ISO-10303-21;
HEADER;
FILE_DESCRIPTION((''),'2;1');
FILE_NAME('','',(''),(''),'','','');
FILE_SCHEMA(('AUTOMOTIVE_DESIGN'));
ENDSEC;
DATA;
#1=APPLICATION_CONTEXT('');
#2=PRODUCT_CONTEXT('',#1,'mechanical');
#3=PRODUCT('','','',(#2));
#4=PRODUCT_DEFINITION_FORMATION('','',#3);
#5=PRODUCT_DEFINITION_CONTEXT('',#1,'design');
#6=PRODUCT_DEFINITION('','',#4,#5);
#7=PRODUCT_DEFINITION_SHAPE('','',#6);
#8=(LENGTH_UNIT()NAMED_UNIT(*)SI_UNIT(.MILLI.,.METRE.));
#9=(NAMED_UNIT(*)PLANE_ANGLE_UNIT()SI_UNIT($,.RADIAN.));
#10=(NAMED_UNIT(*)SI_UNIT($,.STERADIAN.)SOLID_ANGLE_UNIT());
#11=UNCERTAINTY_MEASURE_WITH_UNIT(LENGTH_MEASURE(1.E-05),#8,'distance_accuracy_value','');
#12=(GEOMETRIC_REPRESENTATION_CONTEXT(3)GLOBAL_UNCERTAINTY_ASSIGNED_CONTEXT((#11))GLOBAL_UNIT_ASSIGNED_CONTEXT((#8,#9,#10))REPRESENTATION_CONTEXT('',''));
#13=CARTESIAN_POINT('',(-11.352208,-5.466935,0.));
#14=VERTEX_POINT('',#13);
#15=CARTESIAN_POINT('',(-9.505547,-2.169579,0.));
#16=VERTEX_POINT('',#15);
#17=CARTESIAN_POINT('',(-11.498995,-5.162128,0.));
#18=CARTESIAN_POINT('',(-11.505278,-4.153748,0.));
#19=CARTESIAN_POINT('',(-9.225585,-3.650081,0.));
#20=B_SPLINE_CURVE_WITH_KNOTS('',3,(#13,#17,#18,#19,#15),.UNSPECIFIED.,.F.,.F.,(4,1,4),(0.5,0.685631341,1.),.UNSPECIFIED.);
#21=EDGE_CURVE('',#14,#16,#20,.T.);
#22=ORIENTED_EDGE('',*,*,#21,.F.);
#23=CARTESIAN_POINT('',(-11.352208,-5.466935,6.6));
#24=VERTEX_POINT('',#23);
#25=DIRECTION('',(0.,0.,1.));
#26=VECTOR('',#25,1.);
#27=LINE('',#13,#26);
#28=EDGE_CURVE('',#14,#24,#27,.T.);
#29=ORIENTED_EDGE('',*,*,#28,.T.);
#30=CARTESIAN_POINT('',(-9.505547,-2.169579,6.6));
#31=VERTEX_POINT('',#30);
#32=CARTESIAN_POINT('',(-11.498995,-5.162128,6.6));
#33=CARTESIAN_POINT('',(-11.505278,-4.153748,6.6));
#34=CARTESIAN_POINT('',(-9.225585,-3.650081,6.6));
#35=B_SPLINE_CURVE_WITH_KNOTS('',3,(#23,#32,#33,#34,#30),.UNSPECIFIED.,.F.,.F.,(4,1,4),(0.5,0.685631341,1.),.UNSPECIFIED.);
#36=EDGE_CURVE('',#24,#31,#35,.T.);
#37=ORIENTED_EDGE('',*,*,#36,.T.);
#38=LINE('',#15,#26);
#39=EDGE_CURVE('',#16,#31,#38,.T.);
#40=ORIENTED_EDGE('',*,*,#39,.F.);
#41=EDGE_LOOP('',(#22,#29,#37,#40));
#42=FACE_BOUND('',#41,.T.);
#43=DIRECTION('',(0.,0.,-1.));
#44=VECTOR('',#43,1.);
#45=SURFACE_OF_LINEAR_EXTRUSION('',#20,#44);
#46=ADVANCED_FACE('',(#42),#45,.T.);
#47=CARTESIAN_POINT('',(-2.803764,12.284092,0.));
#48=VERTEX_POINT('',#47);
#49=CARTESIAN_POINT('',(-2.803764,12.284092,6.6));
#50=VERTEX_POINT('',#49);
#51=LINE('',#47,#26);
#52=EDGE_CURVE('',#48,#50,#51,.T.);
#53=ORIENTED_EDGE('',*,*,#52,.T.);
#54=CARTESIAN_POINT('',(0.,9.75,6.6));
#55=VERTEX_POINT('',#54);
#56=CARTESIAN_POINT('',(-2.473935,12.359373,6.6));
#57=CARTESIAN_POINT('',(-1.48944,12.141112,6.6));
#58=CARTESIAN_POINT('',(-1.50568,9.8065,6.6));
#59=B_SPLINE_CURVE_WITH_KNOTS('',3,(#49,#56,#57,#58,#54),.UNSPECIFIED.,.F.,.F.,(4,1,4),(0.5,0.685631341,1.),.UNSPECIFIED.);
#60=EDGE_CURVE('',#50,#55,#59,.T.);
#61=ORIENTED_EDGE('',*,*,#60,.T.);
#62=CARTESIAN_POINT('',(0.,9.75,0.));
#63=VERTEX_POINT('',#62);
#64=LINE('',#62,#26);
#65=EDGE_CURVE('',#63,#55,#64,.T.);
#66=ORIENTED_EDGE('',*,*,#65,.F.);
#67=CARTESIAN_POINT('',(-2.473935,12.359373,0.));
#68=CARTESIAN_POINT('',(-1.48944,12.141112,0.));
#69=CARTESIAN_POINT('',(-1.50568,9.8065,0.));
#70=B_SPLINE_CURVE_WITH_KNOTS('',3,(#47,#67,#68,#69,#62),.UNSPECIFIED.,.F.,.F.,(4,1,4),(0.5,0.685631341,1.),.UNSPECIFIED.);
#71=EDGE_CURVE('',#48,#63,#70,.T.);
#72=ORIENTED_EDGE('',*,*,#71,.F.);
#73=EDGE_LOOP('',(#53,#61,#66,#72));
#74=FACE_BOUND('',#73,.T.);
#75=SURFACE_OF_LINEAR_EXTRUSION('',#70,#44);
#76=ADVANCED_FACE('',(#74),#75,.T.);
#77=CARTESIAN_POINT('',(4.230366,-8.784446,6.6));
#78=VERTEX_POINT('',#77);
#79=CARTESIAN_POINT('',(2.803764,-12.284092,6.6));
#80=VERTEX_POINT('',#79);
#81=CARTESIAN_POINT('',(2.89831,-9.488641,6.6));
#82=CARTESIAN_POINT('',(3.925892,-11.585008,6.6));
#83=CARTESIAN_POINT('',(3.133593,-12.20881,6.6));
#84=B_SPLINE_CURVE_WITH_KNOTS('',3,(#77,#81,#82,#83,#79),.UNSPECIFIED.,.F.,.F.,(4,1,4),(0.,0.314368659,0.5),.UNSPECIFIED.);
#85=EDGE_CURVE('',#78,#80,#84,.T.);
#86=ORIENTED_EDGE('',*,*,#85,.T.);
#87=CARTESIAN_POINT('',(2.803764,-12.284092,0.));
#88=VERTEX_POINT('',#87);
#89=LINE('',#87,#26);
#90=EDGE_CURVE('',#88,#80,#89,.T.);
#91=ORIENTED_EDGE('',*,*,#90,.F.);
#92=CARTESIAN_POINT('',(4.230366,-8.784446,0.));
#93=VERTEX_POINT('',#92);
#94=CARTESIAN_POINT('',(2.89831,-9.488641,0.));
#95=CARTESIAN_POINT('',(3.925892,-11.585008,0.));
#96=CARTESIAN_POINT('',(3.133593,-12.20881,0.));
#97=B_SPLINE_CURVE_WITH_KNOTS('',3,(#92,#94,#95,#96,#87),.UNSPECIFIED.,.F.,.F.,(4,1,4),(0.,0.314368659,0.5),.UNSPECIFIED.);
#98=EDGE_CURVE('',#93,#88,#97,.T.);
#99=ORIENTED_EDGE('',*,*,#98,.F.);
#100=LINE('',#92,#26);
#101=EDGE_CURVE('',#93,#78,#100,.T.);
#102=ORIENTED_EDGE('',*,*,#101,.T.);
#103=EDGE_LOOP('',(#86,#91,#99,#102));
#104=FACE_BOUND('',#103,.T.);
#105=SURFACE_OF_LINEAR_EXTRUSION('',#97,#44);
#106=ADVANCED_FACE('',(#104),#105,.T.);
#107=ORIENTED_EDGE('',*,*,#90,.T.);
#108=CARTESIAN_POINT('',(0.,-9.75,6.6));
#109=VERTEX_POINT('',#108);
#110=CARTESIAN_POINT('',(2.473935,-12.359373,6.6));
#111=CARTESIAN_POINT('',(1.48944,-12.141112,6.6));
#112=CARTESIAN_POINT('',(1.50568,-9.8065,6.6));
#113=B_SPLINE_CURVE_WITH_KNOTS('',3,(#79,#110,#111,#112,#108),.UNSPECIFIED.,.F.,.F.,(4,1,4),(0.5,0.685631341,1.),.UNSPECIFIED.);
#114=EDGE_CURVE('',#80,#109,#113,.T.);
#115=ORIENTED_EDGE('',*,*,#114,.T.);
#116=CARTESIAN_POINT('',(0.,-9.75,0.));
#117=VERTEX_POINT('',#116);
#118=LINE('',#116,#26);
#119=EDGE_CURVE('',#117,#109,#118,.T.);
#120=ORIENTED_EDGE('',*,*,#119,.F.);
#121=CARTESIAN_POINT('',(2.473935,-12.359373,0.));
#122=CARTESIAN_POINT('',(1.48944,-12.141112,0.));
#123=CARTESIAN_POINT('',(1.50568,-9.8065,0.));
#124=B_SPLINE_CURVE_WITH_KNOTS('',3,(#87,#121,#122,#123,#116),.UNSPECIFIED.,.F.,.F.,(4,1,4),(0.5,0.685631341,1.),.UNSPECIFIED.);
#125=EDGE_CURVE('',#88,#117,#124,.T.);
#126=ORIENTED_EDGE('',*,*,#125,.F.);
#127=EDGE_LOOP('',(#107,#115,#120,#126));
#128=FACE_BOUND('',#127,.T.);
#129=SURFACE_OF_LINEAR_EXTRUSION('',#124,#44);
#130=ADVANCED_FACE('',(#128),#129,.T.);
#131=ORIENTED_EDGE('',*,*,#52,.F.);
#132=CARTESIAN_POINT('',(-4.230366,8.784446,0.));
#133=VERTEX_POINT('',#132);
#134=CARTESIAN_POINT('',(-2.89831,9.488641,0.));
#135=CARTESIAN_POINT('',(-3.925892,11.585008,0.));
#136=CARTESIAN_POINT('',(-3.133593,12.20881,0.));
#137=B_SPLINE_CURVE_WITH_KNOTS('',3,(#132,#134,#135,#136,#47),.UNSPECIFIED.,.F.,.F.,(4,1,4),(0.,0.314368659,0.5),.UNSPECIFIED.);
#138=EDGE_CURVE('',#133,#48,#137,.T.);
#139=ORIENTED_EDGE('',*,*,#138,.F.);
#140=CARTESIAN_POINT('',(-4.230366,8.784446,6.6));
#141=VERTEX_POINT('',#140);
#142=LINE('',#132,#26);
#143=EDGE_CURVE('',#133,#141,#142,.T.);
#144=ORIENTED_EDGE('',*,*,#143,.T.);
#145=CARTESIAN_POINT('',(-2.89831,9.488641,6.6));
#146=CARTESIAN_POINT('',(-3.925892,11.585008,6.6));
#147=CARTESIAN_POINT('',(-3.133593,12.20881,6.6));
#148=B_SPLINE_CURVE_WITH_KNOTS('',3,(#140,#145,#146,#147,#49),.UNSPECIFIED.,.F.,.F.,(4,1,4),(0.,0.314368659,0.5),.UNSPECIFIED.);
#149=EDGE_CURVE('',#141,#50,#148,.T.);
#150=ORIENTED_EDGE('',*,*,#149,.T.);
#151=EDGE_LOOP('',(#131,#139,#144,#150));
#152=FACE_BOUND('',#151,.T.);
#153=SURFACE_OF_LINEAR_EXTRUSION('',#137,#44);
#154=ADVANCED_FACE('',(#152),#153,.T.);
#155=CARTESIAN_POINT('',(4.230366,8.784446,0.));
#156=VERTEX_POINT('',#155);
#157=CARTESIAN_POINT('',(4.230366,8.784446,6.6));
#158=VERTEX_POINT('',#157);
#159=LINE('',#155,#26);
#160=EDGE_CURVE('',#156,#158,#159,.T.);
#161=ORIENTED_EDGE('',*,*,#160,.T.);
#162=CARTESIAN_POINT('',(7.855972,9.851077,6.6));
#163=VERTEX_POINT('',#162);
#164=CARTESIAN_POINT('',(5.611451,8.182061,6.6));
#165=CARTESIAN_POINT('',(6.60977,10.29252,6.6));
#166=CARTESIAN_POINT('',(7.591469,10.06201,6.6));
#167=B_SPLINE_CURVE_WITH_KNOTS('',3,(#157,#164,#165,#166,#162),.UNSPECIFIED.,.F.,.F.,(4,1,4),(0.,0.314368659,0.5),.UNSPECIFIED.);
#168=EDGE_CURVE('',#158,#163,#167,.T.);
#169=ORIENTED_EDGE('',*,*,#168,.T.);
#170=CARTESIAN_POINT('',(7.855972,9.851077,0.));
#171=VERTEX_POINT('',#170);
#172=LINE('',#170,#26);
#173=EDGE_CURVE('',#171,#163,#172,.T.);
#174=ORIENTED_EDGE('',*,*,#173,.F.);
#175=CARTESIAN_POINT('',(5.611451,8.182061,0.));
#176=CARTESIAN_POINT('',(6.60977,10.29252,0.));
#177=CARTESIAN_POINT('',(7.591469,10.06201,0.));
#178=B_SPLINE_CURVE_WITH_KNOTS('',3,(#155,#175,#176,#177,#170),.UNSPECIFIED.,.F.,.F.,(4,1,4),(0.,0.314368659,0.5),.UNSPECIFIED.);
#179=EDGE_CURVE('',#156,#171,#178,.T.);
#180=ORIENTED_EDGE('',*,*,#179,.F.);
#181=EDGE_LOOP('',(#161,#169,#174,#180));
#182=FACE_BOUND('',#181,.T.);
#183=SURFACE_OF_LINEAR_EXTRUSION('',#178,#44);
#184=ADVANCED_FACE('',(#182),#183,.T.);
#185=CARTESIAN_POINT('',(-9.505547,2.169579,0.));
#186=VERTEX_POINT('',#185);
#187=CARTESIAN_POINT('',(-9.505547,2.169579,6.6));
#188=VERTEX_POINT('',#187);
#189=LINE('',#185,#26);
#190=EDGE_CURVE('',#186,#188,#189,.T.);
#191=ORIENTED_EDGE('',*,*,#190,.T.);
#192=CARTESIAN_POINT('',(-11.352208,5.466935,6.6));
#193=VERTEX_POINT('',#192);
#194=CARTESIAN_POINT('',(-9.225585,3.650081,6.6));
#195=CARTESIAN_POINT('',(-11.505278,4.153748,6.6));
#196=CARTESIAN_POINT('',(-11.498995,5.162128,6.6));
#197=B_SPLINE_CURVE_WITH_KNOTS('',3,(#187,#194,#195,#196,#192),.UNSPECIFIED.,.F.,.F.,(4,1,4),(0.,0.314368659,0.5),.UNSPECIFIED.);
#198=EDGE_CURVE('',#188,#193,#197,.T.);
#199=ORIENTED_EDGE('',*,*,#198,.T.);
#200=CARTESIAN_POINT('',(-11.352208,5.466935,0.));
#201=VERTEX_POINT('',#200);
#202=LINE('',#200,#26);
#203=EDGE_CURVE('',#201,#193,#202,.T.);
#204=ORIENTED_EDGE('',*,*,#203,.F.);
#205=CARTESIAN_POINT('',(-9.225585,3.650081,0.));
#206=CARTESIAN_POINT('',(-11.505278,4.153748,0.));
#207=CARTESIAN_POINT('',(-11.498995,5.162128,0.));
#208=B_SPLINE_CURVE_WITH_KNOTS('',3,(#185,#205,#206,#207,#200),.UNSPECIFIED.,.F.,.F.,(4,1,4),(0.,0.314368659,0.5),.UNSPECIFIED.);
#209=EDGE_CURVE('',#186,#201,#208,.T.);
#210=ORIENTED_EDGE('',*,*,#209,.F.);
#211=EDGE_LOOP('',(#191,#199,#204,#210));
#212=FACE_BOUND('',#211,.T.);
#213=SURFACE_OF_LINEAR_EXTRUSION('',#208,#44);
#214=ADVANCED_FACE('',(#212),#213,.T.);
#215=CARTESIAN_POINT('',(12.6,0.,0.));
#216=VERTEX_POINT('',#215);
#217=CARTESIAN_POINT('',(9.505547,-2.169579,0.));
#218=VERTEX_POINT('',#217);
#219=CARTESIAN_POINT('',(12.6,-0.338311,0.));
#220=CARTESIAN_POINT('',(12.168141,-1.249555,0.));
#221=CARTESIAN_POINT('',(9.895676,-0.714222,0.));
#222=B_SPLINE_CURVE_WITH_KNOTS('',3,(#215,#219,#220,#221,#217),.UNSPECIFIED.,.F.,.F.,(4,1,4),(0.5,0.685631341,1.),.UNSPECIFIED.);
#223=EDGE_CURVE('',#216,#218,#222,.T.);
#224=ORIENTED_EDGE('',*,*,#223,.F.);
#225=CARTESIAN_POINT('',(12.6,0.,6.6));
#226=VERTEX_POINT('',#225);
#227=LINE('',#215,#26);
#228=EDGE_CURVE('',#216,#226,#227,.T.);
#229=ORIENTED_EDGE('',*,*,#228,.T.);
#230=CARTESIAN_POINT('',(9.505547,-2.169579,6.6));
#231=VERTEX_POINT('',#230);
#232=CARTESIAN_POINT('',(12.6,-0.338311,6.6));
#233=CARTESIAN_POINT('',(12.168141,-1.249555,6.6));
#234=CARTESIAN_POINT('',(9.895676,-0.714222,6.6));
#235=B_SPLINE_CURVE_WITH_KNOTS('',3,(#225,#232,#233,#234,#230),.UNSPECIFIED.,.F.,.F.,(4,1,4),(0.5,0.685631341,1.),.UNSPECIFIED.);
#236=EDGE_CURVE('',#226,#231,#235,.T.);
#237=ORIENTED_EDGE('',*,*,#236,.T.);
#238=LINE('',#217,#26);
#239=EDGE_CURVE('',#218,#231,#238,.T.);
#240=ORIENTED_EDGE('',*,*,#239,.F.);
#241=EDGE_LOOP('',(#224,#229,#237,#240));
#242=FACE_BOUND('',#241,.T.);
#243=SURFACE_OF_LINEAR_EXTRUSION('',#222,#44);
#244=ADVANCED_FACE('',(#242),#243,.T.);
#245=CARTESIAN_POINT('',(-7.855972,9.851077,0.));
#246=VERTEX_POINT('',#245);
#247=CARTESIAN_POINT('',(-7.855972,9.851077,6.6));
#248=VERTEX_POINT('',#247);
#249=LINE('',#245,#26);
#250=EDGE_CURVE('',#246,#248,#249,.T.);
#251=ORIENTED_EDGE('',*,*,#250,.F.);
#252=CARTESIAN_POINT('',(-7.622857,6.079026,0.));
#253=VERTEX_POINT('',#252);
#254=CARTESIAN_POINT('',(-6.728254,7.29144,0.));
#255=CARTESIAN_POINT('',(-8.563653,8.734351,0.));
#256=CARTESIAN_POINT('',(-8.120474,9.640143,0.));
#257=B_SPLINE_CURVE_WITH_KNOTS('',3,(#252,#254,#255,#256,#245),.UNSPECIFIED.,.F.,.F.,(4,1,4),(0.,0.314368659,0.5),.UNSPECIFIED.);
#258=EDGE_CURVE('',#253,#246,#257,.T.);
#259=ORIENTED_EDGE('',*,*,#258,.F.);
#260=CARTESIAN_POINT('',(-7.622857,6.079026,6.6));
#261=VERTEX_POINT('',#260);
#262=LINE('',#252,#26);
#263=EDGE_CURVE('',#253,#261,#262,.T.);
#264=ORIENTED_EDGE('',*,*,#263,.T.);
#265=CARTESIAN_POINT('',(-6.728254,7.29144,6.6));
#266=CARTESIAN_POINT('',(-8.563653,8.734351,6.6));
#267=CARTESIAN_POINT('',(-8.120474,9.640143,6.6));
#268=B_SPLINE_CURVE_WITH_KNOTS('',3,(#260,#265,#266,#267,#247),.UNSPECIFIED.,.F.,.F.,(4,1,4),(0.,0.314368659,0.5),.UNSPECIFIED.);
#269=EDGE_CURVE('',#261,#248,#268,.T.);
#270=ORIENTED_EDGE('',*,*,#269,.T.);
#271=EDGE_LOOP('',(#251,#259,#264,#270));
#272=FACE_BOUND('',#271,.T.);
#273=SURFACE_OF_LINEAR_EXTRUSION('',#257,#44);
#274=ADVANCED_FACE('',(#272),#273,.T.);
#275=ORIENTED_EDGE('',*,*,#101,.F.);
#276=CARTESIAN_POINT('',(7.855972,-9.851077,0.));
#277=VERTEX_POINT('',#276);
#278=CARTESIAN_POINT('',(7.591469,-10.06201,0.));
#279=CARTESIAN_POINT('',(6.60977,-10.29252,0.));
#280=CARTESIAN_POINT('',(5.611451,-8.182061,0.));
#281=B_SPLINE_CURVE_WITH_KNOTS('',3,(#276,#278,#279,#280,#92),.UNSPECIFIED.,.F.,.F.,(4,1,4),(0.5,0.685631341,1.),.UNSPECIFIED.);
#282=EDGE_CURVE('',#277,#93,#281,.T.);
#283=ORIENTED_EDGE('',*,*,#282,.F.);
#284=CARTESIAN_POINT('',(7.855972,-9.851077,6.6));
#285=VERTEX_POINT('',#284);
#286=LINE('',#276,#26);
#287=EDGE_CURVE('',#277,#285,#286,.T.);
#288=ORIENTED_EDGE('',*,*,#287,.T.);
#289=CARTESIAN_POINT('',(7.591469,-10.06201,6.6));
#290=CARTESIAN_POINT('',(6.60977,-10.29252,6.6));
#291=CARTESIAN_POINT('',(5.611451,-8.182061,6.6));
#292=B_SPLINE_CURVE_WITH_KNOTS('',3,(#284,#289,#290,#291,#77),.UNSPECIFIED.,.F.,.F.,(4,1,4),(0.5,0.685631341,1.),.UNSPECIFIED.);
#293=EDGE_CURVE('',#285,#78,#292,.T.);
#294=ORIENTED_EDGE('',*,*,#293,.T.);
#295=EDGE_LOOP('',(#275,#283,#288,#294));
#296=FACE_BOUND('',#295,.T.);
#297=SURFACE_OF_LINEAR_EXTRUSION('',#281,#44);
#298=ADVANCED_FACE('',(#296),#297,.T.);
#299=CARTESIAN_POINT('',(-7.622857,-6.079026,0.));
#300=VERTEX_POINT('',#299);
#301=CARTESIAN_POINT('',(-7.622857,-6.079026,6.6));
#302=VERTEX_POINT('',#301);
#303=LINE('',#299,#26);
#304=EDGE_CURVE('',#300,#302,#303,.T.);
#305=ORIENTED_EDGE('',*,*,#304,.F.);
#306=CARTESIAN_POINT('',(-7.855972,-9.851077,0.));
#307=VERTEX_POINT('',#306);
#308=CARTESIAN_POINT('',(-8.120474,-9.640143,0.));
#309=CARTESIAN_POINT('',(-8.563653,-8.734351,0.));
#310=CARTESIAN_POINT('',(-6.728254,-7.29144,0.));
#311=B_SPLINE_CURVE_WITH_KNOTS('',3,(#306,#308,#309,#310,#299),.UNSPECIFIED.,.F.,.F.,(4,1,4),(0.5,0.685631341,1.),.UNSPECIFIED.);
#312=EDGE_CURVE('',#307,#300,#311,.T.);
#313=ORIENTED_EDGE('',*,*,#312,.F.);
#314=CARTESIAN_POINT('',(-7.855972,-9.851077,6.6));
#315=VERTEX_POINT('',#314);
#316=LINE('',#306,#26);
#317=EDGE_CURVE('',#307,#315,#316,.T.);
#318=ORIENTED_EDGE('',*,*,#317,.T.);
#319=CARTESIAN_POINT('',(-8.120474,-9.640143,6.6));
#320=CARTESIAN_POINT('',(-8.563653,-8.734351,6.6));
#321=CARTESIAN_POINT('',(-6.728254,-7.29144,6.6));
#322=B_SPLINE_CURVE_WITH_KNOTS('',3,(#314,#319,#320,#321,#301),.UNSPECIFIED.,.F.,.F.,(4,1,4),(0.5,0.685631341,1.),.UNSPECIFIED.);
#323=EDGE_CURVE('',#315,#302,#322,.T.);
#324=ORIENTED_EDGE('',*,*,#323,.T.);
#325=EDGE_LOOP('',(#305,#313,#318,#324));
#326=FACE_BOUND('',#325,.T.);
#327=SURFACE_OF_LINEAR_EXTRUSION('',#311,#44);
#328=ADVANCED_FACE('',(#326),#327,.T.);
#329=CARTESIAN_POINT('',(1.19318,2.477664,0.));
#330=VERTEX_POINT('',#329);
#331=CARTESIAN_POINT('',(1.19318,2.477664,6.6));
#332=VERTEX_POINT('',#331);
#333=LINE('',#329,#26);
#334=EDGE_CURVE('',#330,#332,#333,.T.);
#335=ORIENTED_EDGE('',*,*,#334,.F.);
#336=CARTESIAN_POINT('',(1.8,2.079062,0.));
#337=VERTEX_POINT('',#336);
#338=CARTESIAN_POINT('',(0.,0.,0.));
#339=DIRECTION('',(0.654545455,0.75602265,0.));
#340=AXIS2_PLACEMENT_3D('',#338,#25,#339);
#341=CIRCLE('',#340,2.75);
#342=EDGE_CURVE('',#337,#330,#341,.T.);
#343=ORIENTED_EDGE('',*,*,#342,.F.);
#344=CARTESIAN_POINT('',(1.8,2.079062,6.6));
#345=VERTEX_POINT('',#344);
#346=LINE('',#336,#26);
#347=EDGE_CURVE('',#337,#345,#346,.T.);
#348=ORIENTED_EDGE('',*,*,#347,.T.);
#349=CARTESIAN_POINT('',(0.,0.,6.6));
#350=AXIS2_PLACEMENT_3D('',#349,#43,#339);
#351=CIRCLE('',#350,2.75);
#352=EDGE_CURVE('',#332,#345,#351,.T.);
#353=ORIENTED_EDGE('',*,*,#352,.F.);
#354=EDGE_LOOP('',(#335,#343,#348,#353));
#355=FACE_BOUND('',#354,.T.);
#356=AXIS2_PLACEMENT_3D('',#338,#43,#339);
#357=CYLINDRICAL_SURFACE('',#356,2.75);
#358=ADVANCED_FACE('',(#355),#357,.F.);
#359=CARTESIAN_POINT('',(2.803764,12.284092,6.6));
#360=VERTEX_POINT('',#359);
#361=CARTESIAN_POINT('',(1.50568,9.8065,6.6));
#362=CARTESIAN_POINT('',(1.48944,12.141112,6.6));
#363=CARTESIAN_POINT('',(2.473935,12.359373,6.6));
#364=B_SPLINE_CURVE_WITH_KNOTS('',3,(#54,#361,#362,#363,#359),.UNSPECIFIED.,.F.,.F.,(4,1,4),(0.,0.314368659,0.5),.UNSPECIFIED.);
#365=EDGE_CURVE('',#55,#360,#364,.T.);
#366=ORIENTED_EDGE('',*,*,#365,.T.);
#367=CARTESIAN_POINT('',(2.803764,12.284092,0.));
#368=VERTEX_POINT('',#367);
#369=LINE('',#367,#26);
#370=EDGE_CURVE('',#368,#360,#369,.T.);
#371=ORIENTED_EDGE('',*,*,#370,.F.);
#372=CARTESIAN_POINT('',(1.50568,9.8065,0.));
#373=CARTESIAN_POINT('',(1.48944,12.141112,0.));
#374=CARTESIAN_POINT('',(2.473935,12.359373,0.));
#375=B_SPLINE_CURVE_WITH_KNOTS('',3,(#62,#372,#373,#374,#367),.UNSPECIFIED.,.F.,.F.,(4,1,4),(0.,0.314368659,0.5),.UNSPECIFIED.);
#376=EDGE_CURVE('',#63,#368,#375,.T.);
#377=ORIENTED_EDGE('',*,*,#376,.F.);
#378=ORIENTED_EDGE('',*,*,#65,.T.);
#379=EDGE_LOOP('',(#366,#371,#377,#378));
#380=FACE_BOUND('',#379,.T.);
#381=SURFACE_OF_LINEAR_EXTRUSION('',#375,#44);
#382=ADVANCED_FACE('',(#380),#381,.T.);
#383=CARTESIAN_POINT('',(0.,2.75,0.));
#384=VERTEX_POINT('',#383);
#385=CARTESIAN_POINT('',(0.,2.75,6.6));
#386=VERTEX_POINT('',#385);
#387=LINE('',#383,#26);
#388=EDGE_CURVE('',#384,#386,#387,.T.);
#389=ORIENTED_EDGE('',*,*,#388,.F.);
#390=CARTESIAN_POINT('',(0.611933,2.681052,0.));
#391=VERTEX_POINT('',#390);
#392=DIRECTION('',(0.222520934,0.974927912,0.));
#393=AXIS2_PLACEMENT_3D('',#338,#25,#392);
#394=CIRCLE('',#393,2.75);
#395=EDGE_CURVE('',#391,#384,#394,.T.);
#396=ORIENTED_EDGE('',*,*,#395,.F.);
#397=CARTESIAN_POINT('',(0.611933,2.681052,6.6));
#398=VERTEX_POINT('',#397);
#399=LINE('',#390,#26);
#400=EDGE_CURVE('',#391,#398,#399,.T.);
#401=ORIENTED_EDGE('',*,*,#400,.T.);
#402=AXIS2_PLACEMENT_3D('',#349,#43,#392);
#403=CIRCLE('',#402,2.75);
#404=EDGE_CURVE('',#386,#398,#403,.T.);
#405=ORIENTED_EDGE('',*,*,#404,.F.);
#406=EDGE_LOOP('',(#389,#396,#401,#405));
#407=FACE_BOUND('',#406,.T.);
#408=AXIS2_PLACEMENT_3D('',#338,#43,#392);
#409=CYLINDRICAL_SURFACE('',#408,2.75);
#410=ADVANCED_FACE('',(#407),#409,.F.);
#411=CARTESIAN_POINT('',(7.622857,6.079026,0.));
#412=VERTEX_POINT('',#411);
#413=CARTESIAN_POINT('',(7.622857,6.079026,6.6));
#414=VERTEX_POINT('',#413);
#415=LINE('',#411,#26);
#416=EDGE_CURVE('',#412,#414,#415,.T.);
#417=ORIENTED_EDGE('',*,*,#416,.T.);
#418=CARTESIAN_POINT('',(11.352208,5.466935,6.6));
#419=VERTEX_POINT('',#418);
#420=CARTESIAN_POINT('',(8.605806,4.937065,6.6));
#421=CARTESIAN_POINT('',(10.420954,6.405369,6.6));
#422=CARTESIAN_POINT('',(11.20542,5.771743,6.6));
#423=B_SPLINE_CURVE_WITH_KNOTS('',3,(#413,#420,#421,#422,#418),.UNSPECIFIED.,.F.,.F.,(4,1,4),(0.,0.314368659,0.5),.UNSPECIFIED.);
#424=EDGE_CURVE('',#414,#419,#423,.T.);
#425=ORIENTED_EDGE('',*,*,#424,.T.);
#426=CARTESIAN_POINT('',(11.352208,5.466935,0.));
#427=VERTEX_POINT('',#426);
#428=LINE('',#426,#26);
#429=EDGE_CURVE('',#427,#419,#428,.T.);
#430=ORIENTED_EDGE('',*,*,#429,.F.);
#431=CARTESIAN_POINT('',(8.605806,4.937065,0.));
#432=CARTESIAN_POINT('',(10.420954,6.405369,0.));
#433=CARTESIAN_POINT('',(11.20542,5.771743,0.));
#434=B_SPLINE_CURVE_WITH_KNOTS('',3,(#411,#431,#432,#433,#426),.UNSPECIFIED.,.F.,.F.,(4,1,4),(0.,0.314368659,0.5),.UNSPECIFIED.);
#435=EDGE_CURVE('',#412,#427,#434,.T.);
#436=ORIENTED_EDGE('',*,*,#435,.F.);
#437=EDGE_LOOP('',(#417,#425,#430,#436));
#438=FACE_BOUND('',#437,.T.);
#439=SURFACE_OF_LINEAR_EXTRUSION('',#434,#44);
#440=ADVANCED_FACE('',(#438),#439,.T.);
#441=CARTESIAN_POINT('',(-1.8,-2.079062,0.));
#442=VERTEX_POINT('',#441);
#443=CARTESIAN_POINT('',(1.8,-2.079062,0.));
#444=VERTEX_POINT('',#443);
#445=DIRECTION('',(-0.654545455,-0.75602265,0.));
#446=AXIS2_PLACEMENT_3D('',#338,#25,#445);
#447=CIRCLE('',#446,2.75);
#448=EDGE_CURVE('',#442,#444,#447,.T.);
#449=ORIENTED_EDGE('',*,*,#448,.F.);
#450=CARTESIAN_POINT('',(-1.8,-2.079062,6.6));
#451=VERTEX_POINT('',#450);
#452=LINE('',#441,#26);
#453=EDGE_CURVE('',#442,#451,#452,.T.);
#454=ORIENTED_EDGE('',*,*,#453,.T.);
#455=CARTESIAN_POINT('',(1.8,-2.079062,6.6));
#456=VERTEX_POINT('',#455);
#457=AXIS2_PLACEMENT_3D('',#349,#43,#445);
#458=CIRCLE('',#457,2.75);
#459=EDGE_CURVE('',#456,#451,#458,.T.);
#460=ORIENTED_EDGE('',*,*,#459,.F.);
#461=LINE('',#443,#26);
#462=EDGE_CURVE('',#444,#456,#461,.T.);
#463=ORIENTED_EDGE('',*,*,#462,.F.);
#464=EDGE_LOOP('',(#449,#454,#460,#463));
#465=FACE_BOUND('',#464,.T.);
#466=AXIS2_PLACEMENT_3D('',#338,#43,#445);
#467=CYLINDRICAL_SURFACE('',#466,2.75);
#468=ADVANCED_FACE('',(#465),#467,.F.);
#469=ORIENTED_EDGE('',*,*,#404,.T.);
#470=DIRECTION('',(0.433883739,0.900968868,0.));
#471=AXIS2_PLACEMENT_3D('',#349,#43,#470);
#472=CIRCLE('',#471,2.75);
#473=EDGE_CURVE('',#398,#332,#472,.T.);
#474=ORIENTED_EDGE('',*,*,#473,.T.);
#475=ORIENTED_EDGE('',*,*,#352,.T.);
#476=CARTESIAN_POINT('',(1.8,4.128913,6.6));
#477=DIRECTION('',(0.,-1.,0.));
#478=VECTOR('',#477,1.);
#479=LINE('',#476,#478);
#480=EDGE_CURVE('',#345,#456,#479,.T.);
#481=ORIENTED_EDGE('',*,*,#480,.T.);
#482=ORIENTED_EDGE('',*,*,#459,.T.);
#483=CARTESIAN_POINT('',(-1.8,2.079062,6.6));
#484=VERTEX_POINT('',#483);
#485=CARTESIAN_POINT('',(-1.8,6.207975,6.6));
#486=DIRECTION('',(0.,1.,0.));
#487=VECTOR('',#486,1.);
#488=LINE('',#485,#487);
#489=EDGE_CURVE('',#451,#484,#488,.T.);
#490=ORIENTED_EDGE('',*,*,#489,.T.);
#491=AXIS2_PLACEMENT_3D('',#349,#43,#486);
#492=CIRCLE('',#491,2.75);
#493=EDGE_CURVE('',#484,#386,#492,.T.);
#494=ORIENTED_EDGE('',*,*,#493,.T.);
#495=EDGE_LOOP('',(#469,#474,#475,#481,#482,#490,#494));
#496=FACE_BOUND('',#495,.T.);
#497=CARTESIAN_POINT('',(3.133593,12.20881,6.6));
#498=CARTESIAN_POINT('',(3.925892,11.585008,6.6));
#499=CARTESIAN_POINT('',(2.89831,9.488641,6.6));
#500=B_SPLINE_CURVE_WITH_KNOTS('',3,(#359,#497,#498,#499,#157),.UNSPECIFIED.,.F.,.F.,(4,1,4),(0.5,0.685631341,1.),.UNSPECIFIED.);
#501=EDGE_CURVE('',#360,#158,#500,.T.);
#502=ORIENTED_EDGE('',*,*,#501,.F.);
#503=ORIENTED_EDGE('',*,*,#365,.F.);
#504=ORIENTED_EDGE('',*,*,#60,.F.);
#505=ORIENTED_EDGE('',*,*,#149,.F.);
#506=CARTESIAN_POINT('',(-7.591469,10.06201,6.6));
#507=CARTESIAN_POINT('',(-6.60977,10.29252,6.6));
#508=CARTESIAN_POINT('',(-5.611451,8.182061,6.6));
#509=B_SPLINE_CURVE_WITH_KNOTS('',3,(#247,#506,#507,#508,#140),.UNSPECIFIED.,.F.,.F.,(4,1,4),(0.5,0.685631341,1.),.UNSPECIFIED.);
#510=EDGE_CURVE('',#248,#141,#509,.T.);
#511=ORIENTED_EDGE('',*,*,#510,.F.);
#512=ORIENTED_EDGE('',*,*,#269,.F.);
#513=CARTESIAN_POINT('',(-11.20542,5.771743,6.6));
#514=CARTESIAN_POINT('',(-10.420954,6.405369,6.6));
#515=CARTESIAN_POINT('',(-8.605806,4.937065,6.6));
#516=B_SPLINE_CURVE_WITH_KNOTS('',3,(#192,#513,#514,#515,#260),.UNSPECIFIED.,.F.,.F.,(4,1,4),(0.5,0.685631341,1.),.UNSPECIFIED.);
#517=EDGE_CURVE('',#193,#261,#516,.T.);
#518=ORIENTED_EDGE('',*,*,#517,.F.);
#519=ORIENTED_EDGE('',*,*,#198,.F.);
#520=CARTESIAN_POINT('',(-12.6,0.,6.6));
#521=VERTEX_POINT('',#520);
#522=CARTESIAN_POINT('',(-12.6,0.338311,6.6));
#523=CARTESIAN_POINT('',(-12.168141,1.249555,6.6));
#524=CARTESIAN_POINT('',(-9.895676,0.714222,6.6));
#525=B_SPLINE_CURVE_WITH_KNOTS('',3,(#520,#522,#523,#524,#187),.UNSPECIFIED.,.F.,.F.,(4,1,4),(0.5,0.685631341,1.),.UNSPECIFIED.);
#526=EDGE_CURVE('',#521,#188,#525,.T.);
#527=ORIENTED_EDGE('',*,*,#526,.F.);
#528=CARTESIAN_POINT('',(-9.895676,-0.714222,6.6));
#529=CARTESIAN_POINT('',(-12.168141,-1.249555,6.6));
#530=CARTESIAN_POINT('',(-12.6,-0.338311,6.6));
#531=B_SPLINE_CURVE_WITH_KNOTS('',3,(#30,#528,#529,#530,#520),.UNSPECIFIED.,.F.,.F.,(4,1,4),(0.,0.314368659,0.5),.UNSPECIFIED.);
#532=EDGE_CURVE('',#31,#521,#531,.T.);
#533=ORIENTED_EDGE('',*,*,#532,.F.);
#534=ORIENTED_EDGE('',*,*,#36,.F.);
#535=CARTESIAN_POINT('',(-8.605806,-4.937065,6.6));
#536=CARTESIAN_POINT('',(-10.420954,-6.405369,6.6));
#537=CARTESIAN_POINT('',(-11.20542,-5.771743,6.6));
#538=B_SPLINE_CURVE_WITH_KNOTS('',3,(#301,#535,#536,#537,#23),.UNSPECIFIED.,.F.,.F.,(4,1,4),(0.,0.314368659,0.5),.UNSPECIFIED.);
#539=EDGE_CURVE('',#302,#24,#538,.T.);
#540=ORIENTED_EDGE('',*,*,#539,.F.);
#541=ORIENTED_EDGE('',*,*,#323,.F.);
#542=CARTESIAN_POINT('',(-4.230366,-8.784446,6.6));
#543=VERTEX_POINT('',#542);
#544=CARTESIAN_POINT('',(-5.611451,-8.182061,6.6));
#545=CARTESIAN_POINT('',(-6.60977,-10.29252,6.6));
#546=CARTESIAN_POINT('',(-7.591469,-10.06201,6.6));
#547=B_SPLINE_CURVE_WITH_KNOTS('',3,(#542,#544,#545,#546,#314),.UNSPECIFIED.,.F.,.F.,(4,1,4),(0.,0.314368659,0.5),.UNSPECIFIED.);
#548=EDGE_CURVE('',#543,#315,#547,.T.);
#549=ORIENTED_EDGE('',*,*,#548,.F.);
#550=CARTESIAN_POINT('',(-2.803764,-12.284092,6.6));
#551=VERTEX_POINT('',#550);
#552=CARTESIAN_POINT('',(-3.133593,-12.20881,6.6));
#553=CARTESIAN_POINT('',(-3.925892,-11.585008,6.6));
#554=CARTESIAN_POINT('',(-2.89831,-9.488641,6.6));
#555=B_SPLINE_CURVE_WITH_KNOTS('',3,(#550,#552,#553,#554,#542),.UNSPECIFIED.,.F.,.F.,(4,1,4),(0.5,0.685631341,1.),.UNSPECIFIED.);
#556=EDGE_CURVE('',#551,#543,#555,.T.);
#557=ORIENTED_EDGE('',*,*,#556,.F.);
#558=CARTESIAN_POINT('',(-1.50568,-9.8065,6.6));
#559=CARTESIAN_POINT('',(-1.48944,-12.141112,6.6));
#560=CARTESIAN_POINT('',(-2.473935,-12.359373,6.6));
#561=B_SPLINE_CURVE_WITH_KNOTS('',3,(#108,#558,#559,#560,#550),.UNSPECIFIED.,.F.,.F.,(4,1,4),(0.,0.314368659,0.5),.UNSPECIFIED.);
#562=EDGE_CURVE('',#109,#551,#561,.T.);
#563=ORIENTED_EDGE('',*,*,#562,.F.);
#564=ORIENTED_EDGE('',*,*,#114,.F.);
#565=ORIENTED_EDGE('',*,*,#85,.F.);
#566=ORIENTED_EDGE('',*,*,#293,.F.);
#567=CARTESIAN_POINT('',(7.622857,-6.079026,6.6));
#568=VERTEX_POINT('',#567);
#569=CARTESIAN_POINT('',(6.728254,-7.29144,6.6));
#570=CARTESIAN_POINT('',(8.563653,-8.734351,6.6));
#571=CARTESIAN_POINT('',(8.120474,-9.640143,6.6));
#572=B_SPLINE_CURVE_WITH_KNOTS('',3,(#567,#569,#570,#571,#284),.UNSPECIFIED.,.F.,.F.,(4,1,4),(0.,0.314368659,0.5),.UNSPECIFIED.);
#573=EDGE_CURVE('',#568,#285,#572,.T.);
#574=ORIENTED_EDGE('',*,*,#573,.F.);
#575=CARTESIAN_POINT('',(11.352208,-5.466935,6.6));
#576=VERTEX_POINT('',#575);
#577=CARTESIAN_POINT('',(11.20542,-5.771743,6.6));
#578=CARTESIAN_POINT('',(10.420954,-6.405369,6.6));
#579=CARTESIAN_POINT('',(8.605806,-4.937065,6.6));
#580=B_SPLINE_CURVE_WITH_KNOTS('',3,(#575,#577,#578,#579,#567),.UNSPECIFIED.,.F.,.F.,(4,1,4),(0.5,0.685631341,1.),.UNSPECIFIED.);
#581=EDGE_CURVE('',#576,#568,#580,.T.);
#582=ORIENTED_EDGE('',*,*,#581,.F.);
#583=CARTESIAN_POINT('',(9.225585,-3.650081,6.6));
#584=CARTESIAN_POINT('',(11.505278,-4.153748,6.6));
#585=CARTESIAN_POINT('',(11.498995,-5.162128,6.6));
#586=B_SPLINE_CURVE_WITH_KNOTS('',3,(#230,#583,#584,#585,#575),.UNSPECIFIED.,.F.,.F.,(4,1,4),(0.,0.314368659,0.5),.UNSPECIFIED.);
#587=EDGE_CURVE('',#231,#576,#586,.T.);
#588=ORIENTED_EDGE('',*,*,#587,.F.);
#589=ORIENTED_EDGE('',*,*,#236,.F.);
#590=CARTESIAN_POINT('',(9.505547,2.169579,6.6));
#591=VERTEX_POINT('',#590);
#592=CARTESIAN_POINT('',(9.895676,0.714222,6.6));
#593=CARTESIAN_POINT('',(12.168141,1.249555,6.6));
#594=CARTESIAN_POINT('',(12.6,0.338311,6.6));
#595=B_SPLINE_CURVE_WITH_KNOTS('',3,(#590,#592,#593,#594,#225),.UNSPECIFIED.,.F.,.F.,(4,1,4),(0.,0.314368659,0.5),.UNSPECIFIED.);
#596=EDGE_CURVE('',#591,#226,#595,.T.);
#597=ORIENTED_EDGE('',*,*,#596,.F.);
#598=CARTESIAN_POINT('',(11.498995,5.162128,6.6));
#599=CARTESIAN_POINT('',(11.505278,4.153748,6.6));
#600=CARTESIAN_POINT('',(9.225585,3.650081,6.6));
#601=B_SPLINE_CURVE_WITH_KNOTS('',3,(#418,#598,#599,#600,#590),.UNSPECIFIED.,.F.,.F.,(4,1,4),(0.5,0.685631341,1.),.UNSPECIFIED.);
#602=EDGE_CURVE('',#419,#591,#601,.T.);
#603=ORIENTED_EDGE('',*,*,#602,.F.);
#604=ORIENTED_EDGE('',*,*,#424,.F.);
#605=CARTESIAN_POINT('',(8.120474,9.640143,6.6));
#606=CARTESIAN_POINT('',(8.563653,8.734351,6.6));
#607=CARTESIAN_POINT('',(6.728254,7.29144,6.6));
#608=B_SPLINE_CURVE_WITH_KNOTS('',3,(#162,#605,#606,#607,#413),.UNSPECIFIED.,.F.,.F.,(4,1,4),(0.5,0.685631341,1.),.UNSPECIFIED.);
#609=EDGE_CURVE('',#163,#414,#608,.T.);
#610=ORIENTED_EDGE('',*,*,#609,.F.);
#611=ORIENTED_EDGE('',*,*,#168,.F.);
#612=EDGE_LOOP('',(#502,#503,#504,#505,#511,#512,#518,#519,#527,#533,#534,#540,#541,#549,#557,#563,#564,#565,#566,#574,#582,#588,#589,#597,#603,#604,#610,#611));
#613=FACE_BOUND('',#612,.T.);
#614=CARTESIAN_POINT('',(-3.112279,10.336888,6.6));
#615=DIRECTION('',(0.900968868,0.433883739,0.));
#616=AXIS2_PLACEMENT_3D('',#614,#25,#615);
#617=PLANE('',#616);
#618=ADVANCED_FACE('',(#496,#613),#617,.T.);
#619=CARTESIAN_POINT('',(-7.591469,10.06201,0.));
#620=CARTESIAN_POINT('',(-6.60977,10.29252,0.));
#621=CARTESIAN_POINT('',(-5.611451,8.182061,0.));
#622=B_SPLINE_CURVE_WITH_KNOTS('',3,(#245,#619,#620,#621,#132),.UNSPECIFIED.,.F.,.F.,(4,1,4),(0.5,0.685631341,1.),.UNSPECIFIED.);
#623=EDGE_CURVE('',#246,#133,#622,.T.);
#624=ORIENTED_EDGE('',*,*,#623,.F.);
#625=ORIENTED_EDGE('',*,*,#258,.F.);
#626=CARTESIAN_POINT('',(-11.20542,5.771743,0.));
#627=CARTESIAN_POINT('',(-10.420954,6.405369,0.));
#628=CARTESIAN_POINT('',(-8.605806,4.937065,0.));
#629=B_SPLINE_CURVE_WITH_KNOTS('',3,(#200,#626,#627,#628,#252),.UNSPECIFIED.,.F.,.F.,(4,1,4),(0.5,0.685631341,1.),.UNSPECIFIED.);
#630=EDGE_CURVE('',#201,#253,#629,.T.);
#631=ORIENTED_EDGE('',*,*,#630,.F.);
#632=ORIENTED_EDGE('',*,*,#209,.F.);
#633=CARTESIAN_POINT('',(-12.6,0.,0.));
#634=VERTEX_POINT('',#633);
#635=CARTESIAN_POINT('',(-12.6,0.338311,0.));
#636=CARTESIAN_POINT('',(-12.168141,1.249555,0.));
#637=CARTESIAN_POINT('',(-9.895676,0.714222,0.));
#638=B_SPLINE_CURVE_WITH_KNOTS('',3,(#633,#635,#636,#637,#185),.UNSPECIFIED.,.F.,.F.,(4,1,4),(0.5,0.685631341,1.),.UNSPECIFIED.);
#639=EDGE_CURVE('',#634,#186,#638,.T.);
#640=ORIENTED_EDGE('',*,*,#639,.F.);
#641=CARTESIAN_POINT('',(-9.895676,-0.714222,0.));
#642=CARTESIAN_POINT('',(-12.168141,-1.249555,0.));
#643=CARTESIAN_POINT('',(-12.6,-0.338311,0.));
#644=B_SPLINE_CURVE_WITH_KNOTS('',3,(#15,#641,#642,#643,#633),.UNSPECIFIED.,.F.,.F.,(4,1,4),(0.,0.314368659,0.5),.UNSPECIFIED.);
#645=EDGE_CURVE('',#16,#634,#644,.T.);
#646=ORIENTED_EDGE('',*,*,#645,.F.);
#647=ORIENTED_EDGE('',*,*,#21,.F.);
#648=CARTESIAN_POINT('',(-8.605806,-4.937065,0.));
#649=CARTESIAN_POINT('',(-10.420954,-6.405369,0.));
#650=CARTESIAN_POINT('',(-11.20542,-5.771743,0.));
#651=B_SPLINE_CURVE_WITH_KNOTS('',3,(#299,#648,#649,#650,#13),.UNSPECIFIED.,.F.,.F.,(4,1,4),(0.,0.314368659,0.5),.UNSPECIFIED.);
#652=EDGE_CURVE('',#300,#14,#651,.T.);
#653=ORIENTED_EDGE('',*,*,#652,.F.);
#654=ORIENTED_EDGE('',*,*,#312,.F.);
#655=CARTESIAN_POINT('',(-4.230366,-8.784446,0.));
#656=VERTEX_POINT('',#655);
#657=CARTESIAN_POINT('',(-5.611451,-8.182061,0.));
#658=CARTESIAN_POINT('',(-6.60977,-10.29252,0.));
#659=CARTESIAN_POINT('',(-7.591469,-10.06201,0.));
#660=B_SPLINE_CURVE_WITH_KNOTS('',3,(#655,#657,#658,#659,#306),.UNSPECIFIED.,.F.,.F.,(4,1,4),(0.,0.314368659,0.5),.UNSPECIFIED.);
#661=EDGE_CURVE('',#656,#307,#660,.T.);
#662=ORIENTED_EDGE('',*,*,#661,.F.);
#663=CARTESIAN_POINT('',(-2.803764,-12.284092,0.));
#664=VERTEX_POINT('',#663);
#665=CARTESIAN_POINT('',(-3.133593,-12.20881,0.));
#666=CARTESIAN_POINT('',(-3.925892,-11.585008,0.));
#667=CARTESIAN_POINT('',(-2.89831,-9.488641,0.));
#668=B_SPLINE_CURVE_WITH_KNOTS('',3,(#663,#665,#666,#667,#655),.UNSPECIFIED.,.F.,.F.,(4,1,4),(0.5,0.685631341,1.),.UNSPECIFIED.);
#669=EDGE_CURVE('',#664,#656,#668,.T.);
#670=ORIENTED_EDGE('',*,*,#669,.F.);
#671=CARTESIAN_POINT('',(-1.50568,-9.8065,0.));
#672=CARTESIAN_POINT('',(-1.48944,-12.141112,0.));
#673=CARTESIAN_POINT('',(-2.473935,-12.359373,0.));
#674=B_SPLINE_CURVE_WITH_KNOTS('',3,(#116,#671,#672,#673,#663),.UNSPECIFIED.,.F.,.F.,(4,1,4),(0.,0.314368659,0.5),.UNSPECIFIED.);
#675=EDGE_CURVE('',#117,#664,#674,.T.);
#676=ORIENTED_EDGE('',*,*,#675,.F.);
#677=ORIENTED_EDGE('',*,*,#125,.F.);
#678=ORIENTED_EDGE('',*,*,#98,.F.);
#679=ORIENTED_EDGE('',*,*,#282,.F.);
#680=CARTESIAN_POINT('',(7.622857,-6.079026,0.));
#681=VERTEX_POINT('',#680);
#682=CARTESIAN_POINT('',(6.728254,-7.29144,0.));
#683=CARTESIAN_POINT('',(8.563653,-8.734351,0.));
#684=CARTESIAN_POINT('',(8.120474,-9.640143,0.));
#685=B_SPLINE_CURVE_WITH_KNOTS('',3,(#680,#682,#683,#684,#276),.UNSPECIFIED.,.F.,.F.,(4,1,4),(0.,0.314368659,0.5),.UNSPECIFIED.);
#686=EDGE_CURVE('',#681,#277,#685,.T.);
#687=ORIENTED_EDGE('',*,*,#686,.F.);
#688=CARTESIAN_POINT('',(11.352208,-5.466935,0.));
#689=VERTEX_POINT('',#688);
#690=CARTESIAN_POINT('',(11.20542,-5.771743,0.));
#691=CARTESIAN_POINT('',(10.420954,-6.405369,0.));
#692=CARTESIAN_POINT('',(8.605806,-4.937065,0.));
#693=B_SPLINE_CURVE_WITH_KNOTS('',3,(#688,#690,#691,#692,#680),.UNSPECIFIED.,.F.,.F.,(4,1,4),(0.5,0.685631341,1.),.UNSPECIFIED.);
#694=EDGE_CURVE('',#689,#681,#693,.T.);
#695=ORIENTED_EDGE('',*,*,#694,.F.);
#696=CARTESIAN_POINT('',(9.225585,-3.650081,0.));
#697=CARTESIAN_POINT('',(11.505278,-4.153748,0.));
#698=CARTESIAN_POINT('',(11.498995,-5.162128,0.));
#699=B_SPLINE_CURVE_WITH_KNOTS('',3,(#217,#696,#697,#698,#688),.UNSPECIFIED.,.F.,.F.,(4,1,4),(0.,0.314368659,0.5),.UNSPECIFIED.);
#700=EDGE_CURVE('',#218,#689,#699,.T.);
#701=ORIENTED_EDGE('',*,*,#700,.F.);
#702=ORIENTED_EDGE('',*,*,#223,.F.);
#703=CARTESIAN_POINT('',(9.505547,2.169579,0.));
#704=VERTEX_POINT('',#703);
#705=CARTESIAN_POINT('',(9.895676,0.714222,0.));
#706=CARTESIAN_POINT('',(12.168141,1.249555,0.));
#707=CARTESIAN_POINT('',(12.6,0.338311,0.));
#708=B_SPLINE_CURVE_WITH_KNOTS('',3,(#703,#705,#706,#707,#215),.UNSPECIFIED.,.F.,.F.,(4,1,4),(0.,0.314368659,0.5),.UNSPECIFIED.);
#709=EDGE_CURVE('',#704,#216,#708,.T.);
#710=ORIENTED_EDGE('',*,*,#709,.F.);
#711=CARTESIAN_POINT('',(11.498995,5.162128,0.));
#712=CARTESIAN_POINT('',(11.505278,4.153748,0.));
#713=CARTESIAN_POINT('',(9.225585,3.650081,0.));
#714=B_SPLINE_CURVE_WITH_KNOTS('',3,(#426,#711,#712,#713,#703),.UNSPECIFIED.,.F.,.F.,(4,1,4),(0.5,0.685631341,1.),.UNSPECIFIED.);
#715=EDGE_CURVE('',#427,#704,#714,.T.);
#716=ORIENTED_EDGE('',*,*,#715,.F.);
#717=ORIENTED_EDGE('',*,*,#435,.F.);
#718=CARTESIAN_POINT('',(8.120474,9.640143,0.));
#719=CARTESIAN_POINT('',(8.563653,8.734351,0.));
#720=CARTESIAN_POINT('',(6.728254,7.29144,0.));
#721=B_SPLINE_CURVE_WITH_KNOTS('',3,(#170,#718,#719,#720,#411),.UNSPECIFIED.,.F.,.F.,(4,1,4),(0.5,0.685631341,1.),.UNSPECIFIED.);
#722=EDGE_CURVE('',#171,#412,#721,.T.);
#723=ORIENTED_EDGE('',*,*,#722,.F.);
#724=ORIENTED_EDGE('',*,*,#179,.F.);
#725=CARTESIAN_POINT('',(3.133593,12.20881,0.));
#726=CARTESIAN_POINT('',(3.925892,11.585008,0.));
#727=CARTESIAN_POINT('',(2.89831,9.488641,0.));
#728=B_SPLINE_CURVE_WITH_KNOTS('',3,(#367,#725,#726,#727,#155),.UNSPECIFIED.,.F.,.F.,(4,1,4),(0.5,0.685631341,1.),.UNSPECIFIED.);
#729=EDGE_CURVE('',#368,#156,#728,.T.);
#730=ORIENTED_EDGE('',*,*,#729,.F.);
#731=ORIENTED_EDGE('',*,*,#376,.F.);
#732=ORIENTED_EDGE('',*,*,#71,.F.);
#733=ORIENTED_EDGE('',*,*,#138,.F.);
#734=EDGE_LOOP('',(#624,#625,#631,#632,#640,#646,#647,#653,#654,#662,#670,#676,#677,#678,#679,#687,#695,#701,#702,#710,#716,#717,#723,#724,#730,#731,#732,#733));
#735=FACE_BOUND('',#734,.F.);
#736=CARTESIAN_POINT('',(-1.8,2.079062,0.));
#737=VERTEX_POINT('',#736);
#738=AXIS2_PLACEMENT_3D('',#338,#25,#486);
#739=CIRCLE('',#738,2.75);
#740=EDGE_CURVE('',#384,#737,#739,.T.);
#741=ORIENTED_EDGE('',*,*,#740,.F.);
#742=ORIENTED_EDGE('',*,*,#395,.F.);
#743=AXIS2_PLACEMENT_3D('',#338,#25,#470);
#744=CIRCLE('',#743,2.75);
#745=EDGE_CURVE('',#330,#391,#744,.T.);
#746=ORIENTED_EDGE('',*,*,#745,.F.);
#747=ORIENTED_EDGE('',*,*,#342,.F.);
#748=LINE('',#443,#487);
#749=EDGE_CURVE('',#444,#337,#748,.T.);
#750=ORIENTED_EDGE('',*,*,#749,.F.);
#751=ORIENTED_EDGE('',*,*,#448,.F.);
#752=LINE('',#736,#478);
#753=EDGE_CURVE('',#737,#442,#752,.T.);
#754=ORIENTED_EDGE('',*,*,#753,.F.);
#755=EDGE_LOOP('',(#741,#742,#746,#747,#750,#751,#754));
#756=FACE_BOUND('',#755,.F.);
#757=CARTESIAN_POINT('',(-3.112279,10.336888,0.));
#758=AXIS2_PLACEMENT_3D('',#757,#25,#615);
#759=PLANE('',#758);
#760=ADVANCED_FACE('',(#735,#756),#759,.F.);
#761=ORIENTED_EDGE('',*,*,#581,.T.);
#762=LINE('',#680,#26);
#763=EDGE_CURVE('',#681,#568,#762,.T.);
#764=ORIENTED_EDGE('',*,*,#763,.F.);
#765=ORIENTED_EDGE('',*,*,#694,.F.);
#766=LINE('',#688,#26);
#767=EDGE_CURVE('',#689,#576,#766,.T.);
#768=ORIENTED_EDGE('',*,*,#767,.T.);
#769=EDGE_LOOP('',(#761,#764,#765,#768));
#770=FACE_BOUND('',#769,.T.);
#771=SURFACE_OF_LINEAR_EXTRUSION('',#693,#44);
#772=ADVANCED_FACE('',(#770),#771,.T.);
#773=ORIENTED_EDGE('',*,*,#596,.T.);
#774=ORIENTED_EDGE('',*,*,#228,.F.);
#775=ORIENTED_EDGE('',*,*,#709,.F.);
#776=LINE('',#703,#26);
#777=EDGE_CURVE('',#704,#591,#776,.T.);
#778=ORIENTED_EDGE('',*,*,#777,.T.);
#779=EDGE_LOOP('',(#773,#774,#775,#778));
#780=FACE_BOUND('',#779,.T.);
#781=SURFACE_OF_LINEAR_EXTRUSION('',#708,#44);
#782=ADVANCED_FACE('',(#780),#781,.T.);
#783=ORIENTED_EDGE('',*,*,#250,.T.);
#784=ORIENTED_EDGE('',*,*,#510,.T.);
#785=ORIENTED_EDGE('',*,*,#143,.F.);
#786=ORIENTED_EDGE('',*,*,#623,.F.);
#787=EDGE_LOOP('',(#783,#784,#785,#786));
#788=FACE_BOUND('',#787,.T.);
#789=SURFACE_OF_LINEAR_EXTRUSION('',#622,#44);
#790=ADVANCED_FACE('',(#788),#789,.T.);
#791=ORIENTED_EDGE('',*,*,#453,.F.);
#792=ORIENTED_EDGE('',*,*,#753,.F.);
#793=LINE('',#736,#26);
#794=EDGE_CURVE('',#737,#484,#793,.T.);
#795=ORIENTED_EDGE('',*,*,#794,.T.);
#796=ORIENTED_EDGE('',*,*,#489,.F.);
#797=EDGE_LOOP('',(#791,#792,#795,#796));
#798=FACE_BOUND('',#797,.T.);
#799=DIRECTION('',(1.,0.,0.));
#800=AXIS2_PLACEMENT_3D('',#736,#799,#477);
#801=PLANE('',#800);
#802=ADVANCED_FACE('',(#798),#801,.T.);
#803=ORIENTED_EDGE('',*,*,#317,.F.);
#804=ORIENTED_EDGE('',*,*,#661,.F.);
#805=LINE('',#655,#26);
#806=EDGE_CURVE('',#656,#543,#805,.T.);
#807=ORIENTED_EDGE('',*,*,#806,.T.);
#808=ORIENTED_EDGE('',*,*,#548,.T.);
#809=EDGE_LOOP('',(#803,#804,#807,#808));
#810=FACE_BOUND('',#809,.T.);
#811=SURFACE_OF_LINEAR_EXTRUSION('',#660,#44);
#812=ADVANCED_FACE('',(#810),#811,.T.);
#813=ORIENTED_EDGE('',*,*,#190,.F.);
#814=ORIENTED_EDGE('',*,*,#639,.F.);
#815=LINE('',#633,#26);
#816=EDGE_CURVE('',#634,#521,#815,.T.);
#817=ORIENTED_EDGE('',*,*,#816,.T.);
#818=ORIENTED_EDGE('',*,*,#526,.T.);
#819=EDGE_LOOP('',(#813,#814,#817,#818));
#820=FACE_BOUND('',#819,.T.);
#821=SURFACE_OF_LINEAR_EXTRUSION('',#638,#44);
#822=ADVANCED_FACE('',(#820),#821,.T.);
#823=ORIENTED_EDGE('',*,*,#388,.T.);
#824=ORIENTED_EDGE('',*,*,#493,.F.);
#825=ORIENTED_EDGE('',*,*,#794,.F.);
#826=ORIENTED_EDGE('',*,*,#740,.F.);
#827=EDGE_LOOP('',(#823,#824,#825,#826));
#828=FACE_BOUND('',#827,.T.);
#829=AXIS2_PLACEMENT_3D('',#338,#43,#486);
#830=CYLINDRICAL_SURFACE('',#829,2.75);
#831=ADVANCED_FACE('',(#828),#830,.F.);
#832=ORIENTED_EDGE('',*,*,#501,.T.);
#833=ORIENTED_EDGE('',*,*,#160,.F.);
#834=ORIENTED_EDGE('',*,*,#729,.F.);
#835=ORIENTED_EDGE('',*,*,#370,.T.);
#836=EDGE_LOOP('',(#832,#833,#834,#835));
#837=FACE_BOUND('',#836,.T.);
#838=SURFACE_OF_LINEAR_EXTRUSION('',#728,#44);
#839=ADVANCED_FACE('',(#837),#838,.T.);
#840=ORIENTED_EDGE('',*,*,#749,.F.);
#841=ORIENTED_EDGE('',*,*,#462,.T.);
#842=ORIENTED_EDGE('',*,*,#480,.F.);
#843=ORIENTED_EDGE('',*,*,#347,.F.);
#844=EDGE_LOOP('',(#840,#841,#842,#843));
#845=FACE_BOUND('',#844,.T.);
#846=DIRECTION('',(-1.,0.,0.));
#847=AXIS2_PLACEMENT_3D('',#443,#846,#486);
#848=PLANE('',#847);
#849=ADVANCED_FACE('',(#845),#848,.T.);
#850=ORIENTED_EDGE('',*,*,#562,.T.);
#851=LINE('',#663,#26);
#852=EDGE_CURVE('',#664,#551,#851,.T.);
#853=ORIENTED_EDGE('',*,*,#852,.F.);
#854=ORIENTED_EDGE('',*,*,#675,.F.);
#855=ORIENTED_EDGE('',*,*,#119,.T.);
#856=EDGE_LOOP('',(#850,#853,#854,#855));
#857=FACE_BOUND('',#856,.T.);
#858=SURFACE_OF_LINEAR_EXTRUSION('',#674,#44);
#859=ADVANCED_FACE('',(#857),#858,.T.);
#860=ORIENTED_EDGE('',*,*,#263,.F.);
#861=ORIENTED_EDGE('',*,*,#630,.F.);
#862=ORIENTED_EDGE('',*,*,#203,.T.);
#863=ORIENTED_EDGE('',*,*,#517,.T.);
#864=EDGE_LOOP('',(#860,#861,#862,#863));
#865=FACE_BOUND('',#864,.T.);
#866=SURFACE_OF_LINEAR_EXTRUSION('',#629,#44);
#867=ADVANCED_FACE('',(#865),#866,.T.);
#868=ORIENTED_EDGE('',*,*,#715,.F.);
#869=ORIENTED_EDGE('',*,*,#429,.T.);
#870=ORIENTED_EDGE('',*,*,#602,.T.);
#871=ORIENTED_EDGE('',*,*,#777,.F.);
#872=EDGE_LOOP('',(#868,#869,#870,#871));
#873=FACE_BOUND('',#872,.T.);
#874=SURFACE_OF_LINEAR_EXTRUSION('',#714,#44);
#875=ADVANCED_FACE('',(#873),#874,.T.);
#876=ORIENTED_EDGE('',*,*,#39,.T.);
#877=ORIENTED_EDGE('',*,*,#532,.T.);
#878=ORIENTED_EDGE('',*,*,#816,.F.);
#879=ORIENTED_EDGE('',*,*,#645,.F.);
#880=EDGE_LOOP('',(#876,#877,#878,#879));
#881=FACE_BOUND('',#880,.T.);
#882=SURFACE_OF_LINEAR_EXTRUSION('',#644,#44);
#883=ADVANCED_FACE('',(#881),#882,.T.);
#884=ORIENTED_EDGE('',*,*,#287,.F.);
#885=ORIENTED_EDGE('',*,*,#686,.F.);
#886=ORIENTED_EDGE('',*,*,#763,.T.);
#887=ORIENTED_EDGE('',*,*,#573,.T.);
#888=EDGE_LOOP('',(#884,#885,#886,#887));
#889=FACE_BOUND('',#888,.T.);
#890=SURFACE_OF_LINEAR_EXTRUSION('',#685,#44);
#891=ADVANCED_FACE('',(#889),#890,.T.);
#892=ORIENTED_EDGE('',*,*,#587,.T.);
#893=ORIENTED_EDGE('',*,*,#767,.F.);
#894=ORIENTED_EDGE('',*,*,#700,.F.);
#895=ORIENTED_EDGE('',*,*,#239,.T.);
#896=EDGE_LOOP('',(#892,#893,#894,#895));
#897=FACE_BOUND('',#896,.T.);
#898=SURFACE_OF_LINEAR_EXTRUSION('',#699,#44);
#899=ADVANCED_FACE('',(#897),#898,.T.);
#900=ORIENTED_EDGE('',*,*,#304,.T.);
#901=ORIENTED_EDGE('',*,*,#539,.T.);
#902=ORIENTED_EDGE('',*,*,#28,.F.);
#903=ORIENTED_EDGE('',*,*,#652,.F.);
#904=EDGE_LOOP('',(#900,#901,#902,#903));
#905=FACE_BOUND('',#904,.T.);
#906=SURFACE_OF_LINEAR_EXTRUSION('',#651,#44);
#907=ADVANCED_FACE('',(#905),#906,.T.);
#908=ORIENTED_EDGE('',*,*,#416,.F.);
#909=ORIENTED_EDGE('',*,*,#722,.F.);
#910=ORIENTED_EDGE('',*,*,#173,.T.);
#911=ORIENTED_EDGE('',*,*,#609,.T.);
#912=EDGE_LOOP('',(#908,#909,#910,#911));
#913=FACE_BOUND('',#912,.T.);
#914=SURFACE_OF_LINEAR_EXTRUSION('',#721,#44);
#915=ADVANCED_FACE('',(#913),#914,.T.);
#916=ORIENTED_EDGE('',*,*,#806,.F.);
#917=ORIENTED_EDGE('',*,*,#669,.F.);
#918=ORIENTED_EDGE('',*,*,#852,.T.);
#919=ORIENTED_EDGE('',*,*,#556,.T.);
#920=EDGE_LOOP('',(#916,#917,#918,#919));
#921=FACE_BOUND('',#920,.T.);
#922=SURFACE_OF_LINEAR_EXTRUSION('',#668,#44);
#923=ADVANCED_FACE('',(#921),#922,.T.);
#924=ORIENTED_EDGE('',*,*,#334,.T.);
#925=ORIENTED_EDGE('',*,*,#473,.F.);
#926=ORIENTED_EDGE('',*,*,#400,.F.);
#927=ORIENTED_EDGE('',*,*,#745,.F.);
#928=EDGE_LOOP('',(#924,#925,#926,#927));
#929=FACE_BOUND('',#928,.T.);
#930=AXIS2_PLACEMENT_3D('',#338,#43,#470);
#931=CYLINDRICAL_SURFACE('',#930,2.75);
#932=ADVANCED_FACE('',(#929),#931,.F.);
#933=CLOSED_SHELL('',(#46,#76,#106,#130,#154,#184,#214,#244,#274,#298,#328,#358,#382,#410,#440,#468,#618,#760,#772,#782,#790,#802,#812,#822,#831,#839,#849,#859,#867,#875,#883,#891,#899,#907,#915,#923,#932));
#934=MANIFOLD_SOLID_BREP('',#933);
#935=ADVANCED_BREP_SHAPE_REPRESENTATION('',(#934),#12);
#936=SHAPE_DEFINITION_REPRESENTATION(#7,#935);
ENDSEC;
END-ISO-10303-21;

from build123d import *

# Parameters (mm, degrees)
F3_DEPTH = 6.6
F4_COUNT = 14
F5_DEPTH = 6.6010001


with BuildPart() as f3:
    # F2 (on Top) → F3 (new body)
    with BuildSketch(Plane.XY):
        with BuildLine():
            Line((2.1695791061, 9.5055471438), (2.8037637678, 12.2840916935))
            add(Edge.make_bspline(
                [(0, 9.75), (1.5056796838, 9.8064998165), (1.4894399693, 12.1411121489), (2.4739350039, 12.3593729565), (2.8037637678, 12.2840916935)],
                knots=[0, 0, 0, 0, 0.3143686588, 0.5, 0.5, 0.5, 0.5], degree=3))
            ThreePointArc((0, 9.75), (1.091653642, 9.6886940465), (2.1695791061, 9.5055471438))
        make_face()
        with BuildLine():
            add(Edge.make_bspline(
                [(2.8037637678, 12.2840916935), (3.1335925318, 12.2088104305), (3.9258920932, 11.5850078509), (2.8983102879, 9.4886409688), (4.2303664564, 8.784446462)],
                knots=[0.5, 0.5, 0.5, 0.5, 0.6856313412, 1, 1, 1, 1], degree=3))
            Line((2.8037637678, 12.2840916935), (2.1695791061, 9.5055471438))
            ThreePointArc((2.1695791061, 9.5055471438), (3.2202208541, 9.2028624705), (4.2303664564, 8.784446462))
        make_face()
        with BuildLine():
            ThreePointArc((2.1695791061, 9.5055471438), (1.091653642, 9.6886940465), (0, 9.75))
            Line((0, 9.75), (0, 2.75))
            ThreePointArc((0, 2.75), (0.3079023093, 2.7327085772), (0.6119325684, 2.6810517585))
            Line((0.6119325684, 2.6810517585), (2.1695791061, 9.5055471438))
        make_face()
        with BuildLine():
            Line((1.1931802826, 2.4776643867), (4.2303664564, 8.784446462))
            ThreePointArc((4.2303664564, 8.784446462), (3.2202208541, 9.2028624705), (2.1695791061, 9.5055471438))
            Line((2.1695791061, 9.5055471438), (0.6119325684, 2.6810517585))
            ThreePointArc((0.6119325684, 2.6810517585), (0.9082674204, 2.5956791583), (1.1931802826, 2.4776643867))
        make_face()
        with BuildLine():
            ThreePointArc((0.6119325684, 2.6810517585), (0.3079023093, 2.7327085772), (0, 2.75))
            Line((0, 2.75), (0, 2.0790622886))
            Line((0, 2.0790622886), (0.4745324002, 2.0790622886))
            Line((0.4745324002, 2.0790622886), (0.6119325684, 2.6810517585))
        make_face()
        with BuildLine():
            Line((1.0012236291, 2.0790622886), (1.1931802826, 2.4776643867))
            ThreePointArc((1.1931802826, 2.4776643867), (0.9082674204, 2.5956791583), (0.6119325684, 2.6810517585))
            Line((0.6119325684, 2.6810517585), (0.4745324002, 2.0790622886))
            Line((0.4745324002, 2.0790622886), (1.0012236291, 2.0790622886))
        make_face()
        Polygon((0.4745324002, 2.0790622886), (0, 2.0790622886), (0, 0), align=None)
        Polygon((0, 0), (1.0012236291, 2.0790622886), (0.4745324002, 2.0790622886), align=None)
    extrude(amount=F3_DEPTH)

    # F4: F3 ×14 about axis
    f4_axis = Axis((0, 0, 3.3), (0, 0, -1))


with BuildPart() as f3_1:
    add(f3.part)
    for i in range(1, F4_COUNT):
        add(f3.part.rotate(f4_axis, i * 360 / F4_COUNT))

    # F2 (on Top) → F5 (cut, through all)
    with BuildSketch(Plane.XY):
        Polygon((1.8, -2.0790622886), (1.8, 2.0790622886), (1.0012236291, 2.0790622886), (0, 0), (0, 2.0790622886), (-1.8, 2.0790622886), (-1.8, -2.0790622886), align=None)
        with BuildLine():
            ThreePointArc((-1.8, -2.0790622886), (0, -2.75), (1.8, -2.0790622886))
            Line((1.8, -2.0790622886), (-1.8, -2.0790622886))
        make_face()
        with BuildLine():
            Line((0, 2.0790622886), (0, 2.75))
            ThreePointArc((0, 2.75), (-0.9604891218, 2.5768121093), (-1.8, 2.0790622886))
            Line((-1.8, 2.0790622886), (0, 2.0790622886))
        make_face()
        with BuildLine():
            ThreePointArc((0.6119325684, 2.6810517585), (0.3079023093, 2.7327085772), (0, 2.75))
            Line((0, 2.75), (0, 2.0790622886))
            Line((0, 2.0790622886), (0.4745324002, 2.0790622886))
            Line((0.4745324002, 2.0790622886), (0.6119325684, 2.6810517585))
        make_face()
        with BuildLine():
            Line((1.0012236291, 2.0790622886), (1.1931802826, 2.4776643867))
            ThreePointArc((1.1931802826, 2.4776643867), (0.9082674204, 2.5956791583), (0.6119325684, 2.6810517585))
            Line((0.6119325684, 2.6810517585), (0.4745324002, 2.0790622886))
            Line((0.4745324002, 2.0790622886), (1.0012236291, 2.0790622886))
        make_face()
        with BuildLine():
            ThreePointArc((1.8, 2.0790622886), (1.5098022914, 2.2984771134), (1.1931802826, 2.4776643867))
            Line((1.1931802826, 2.4776643867), (1.0012236291, 2.0790622886))
            Line((1.0012236291, 2.0790622886), (1.8, 2.0790622886))
        make_face()
        Polygon((0, 0), (1.0012236291, 2.0790622886), (0.4745324002, 2.0790622886), align=None)
        Polygon((0.4745324002, 2.0790622886), (0, 2.0790622886), (0, 0), align=None)
    extrude(amount=F5_DEPTH, mode=Mode.SUBTRACT)


solid = f3_1.part
